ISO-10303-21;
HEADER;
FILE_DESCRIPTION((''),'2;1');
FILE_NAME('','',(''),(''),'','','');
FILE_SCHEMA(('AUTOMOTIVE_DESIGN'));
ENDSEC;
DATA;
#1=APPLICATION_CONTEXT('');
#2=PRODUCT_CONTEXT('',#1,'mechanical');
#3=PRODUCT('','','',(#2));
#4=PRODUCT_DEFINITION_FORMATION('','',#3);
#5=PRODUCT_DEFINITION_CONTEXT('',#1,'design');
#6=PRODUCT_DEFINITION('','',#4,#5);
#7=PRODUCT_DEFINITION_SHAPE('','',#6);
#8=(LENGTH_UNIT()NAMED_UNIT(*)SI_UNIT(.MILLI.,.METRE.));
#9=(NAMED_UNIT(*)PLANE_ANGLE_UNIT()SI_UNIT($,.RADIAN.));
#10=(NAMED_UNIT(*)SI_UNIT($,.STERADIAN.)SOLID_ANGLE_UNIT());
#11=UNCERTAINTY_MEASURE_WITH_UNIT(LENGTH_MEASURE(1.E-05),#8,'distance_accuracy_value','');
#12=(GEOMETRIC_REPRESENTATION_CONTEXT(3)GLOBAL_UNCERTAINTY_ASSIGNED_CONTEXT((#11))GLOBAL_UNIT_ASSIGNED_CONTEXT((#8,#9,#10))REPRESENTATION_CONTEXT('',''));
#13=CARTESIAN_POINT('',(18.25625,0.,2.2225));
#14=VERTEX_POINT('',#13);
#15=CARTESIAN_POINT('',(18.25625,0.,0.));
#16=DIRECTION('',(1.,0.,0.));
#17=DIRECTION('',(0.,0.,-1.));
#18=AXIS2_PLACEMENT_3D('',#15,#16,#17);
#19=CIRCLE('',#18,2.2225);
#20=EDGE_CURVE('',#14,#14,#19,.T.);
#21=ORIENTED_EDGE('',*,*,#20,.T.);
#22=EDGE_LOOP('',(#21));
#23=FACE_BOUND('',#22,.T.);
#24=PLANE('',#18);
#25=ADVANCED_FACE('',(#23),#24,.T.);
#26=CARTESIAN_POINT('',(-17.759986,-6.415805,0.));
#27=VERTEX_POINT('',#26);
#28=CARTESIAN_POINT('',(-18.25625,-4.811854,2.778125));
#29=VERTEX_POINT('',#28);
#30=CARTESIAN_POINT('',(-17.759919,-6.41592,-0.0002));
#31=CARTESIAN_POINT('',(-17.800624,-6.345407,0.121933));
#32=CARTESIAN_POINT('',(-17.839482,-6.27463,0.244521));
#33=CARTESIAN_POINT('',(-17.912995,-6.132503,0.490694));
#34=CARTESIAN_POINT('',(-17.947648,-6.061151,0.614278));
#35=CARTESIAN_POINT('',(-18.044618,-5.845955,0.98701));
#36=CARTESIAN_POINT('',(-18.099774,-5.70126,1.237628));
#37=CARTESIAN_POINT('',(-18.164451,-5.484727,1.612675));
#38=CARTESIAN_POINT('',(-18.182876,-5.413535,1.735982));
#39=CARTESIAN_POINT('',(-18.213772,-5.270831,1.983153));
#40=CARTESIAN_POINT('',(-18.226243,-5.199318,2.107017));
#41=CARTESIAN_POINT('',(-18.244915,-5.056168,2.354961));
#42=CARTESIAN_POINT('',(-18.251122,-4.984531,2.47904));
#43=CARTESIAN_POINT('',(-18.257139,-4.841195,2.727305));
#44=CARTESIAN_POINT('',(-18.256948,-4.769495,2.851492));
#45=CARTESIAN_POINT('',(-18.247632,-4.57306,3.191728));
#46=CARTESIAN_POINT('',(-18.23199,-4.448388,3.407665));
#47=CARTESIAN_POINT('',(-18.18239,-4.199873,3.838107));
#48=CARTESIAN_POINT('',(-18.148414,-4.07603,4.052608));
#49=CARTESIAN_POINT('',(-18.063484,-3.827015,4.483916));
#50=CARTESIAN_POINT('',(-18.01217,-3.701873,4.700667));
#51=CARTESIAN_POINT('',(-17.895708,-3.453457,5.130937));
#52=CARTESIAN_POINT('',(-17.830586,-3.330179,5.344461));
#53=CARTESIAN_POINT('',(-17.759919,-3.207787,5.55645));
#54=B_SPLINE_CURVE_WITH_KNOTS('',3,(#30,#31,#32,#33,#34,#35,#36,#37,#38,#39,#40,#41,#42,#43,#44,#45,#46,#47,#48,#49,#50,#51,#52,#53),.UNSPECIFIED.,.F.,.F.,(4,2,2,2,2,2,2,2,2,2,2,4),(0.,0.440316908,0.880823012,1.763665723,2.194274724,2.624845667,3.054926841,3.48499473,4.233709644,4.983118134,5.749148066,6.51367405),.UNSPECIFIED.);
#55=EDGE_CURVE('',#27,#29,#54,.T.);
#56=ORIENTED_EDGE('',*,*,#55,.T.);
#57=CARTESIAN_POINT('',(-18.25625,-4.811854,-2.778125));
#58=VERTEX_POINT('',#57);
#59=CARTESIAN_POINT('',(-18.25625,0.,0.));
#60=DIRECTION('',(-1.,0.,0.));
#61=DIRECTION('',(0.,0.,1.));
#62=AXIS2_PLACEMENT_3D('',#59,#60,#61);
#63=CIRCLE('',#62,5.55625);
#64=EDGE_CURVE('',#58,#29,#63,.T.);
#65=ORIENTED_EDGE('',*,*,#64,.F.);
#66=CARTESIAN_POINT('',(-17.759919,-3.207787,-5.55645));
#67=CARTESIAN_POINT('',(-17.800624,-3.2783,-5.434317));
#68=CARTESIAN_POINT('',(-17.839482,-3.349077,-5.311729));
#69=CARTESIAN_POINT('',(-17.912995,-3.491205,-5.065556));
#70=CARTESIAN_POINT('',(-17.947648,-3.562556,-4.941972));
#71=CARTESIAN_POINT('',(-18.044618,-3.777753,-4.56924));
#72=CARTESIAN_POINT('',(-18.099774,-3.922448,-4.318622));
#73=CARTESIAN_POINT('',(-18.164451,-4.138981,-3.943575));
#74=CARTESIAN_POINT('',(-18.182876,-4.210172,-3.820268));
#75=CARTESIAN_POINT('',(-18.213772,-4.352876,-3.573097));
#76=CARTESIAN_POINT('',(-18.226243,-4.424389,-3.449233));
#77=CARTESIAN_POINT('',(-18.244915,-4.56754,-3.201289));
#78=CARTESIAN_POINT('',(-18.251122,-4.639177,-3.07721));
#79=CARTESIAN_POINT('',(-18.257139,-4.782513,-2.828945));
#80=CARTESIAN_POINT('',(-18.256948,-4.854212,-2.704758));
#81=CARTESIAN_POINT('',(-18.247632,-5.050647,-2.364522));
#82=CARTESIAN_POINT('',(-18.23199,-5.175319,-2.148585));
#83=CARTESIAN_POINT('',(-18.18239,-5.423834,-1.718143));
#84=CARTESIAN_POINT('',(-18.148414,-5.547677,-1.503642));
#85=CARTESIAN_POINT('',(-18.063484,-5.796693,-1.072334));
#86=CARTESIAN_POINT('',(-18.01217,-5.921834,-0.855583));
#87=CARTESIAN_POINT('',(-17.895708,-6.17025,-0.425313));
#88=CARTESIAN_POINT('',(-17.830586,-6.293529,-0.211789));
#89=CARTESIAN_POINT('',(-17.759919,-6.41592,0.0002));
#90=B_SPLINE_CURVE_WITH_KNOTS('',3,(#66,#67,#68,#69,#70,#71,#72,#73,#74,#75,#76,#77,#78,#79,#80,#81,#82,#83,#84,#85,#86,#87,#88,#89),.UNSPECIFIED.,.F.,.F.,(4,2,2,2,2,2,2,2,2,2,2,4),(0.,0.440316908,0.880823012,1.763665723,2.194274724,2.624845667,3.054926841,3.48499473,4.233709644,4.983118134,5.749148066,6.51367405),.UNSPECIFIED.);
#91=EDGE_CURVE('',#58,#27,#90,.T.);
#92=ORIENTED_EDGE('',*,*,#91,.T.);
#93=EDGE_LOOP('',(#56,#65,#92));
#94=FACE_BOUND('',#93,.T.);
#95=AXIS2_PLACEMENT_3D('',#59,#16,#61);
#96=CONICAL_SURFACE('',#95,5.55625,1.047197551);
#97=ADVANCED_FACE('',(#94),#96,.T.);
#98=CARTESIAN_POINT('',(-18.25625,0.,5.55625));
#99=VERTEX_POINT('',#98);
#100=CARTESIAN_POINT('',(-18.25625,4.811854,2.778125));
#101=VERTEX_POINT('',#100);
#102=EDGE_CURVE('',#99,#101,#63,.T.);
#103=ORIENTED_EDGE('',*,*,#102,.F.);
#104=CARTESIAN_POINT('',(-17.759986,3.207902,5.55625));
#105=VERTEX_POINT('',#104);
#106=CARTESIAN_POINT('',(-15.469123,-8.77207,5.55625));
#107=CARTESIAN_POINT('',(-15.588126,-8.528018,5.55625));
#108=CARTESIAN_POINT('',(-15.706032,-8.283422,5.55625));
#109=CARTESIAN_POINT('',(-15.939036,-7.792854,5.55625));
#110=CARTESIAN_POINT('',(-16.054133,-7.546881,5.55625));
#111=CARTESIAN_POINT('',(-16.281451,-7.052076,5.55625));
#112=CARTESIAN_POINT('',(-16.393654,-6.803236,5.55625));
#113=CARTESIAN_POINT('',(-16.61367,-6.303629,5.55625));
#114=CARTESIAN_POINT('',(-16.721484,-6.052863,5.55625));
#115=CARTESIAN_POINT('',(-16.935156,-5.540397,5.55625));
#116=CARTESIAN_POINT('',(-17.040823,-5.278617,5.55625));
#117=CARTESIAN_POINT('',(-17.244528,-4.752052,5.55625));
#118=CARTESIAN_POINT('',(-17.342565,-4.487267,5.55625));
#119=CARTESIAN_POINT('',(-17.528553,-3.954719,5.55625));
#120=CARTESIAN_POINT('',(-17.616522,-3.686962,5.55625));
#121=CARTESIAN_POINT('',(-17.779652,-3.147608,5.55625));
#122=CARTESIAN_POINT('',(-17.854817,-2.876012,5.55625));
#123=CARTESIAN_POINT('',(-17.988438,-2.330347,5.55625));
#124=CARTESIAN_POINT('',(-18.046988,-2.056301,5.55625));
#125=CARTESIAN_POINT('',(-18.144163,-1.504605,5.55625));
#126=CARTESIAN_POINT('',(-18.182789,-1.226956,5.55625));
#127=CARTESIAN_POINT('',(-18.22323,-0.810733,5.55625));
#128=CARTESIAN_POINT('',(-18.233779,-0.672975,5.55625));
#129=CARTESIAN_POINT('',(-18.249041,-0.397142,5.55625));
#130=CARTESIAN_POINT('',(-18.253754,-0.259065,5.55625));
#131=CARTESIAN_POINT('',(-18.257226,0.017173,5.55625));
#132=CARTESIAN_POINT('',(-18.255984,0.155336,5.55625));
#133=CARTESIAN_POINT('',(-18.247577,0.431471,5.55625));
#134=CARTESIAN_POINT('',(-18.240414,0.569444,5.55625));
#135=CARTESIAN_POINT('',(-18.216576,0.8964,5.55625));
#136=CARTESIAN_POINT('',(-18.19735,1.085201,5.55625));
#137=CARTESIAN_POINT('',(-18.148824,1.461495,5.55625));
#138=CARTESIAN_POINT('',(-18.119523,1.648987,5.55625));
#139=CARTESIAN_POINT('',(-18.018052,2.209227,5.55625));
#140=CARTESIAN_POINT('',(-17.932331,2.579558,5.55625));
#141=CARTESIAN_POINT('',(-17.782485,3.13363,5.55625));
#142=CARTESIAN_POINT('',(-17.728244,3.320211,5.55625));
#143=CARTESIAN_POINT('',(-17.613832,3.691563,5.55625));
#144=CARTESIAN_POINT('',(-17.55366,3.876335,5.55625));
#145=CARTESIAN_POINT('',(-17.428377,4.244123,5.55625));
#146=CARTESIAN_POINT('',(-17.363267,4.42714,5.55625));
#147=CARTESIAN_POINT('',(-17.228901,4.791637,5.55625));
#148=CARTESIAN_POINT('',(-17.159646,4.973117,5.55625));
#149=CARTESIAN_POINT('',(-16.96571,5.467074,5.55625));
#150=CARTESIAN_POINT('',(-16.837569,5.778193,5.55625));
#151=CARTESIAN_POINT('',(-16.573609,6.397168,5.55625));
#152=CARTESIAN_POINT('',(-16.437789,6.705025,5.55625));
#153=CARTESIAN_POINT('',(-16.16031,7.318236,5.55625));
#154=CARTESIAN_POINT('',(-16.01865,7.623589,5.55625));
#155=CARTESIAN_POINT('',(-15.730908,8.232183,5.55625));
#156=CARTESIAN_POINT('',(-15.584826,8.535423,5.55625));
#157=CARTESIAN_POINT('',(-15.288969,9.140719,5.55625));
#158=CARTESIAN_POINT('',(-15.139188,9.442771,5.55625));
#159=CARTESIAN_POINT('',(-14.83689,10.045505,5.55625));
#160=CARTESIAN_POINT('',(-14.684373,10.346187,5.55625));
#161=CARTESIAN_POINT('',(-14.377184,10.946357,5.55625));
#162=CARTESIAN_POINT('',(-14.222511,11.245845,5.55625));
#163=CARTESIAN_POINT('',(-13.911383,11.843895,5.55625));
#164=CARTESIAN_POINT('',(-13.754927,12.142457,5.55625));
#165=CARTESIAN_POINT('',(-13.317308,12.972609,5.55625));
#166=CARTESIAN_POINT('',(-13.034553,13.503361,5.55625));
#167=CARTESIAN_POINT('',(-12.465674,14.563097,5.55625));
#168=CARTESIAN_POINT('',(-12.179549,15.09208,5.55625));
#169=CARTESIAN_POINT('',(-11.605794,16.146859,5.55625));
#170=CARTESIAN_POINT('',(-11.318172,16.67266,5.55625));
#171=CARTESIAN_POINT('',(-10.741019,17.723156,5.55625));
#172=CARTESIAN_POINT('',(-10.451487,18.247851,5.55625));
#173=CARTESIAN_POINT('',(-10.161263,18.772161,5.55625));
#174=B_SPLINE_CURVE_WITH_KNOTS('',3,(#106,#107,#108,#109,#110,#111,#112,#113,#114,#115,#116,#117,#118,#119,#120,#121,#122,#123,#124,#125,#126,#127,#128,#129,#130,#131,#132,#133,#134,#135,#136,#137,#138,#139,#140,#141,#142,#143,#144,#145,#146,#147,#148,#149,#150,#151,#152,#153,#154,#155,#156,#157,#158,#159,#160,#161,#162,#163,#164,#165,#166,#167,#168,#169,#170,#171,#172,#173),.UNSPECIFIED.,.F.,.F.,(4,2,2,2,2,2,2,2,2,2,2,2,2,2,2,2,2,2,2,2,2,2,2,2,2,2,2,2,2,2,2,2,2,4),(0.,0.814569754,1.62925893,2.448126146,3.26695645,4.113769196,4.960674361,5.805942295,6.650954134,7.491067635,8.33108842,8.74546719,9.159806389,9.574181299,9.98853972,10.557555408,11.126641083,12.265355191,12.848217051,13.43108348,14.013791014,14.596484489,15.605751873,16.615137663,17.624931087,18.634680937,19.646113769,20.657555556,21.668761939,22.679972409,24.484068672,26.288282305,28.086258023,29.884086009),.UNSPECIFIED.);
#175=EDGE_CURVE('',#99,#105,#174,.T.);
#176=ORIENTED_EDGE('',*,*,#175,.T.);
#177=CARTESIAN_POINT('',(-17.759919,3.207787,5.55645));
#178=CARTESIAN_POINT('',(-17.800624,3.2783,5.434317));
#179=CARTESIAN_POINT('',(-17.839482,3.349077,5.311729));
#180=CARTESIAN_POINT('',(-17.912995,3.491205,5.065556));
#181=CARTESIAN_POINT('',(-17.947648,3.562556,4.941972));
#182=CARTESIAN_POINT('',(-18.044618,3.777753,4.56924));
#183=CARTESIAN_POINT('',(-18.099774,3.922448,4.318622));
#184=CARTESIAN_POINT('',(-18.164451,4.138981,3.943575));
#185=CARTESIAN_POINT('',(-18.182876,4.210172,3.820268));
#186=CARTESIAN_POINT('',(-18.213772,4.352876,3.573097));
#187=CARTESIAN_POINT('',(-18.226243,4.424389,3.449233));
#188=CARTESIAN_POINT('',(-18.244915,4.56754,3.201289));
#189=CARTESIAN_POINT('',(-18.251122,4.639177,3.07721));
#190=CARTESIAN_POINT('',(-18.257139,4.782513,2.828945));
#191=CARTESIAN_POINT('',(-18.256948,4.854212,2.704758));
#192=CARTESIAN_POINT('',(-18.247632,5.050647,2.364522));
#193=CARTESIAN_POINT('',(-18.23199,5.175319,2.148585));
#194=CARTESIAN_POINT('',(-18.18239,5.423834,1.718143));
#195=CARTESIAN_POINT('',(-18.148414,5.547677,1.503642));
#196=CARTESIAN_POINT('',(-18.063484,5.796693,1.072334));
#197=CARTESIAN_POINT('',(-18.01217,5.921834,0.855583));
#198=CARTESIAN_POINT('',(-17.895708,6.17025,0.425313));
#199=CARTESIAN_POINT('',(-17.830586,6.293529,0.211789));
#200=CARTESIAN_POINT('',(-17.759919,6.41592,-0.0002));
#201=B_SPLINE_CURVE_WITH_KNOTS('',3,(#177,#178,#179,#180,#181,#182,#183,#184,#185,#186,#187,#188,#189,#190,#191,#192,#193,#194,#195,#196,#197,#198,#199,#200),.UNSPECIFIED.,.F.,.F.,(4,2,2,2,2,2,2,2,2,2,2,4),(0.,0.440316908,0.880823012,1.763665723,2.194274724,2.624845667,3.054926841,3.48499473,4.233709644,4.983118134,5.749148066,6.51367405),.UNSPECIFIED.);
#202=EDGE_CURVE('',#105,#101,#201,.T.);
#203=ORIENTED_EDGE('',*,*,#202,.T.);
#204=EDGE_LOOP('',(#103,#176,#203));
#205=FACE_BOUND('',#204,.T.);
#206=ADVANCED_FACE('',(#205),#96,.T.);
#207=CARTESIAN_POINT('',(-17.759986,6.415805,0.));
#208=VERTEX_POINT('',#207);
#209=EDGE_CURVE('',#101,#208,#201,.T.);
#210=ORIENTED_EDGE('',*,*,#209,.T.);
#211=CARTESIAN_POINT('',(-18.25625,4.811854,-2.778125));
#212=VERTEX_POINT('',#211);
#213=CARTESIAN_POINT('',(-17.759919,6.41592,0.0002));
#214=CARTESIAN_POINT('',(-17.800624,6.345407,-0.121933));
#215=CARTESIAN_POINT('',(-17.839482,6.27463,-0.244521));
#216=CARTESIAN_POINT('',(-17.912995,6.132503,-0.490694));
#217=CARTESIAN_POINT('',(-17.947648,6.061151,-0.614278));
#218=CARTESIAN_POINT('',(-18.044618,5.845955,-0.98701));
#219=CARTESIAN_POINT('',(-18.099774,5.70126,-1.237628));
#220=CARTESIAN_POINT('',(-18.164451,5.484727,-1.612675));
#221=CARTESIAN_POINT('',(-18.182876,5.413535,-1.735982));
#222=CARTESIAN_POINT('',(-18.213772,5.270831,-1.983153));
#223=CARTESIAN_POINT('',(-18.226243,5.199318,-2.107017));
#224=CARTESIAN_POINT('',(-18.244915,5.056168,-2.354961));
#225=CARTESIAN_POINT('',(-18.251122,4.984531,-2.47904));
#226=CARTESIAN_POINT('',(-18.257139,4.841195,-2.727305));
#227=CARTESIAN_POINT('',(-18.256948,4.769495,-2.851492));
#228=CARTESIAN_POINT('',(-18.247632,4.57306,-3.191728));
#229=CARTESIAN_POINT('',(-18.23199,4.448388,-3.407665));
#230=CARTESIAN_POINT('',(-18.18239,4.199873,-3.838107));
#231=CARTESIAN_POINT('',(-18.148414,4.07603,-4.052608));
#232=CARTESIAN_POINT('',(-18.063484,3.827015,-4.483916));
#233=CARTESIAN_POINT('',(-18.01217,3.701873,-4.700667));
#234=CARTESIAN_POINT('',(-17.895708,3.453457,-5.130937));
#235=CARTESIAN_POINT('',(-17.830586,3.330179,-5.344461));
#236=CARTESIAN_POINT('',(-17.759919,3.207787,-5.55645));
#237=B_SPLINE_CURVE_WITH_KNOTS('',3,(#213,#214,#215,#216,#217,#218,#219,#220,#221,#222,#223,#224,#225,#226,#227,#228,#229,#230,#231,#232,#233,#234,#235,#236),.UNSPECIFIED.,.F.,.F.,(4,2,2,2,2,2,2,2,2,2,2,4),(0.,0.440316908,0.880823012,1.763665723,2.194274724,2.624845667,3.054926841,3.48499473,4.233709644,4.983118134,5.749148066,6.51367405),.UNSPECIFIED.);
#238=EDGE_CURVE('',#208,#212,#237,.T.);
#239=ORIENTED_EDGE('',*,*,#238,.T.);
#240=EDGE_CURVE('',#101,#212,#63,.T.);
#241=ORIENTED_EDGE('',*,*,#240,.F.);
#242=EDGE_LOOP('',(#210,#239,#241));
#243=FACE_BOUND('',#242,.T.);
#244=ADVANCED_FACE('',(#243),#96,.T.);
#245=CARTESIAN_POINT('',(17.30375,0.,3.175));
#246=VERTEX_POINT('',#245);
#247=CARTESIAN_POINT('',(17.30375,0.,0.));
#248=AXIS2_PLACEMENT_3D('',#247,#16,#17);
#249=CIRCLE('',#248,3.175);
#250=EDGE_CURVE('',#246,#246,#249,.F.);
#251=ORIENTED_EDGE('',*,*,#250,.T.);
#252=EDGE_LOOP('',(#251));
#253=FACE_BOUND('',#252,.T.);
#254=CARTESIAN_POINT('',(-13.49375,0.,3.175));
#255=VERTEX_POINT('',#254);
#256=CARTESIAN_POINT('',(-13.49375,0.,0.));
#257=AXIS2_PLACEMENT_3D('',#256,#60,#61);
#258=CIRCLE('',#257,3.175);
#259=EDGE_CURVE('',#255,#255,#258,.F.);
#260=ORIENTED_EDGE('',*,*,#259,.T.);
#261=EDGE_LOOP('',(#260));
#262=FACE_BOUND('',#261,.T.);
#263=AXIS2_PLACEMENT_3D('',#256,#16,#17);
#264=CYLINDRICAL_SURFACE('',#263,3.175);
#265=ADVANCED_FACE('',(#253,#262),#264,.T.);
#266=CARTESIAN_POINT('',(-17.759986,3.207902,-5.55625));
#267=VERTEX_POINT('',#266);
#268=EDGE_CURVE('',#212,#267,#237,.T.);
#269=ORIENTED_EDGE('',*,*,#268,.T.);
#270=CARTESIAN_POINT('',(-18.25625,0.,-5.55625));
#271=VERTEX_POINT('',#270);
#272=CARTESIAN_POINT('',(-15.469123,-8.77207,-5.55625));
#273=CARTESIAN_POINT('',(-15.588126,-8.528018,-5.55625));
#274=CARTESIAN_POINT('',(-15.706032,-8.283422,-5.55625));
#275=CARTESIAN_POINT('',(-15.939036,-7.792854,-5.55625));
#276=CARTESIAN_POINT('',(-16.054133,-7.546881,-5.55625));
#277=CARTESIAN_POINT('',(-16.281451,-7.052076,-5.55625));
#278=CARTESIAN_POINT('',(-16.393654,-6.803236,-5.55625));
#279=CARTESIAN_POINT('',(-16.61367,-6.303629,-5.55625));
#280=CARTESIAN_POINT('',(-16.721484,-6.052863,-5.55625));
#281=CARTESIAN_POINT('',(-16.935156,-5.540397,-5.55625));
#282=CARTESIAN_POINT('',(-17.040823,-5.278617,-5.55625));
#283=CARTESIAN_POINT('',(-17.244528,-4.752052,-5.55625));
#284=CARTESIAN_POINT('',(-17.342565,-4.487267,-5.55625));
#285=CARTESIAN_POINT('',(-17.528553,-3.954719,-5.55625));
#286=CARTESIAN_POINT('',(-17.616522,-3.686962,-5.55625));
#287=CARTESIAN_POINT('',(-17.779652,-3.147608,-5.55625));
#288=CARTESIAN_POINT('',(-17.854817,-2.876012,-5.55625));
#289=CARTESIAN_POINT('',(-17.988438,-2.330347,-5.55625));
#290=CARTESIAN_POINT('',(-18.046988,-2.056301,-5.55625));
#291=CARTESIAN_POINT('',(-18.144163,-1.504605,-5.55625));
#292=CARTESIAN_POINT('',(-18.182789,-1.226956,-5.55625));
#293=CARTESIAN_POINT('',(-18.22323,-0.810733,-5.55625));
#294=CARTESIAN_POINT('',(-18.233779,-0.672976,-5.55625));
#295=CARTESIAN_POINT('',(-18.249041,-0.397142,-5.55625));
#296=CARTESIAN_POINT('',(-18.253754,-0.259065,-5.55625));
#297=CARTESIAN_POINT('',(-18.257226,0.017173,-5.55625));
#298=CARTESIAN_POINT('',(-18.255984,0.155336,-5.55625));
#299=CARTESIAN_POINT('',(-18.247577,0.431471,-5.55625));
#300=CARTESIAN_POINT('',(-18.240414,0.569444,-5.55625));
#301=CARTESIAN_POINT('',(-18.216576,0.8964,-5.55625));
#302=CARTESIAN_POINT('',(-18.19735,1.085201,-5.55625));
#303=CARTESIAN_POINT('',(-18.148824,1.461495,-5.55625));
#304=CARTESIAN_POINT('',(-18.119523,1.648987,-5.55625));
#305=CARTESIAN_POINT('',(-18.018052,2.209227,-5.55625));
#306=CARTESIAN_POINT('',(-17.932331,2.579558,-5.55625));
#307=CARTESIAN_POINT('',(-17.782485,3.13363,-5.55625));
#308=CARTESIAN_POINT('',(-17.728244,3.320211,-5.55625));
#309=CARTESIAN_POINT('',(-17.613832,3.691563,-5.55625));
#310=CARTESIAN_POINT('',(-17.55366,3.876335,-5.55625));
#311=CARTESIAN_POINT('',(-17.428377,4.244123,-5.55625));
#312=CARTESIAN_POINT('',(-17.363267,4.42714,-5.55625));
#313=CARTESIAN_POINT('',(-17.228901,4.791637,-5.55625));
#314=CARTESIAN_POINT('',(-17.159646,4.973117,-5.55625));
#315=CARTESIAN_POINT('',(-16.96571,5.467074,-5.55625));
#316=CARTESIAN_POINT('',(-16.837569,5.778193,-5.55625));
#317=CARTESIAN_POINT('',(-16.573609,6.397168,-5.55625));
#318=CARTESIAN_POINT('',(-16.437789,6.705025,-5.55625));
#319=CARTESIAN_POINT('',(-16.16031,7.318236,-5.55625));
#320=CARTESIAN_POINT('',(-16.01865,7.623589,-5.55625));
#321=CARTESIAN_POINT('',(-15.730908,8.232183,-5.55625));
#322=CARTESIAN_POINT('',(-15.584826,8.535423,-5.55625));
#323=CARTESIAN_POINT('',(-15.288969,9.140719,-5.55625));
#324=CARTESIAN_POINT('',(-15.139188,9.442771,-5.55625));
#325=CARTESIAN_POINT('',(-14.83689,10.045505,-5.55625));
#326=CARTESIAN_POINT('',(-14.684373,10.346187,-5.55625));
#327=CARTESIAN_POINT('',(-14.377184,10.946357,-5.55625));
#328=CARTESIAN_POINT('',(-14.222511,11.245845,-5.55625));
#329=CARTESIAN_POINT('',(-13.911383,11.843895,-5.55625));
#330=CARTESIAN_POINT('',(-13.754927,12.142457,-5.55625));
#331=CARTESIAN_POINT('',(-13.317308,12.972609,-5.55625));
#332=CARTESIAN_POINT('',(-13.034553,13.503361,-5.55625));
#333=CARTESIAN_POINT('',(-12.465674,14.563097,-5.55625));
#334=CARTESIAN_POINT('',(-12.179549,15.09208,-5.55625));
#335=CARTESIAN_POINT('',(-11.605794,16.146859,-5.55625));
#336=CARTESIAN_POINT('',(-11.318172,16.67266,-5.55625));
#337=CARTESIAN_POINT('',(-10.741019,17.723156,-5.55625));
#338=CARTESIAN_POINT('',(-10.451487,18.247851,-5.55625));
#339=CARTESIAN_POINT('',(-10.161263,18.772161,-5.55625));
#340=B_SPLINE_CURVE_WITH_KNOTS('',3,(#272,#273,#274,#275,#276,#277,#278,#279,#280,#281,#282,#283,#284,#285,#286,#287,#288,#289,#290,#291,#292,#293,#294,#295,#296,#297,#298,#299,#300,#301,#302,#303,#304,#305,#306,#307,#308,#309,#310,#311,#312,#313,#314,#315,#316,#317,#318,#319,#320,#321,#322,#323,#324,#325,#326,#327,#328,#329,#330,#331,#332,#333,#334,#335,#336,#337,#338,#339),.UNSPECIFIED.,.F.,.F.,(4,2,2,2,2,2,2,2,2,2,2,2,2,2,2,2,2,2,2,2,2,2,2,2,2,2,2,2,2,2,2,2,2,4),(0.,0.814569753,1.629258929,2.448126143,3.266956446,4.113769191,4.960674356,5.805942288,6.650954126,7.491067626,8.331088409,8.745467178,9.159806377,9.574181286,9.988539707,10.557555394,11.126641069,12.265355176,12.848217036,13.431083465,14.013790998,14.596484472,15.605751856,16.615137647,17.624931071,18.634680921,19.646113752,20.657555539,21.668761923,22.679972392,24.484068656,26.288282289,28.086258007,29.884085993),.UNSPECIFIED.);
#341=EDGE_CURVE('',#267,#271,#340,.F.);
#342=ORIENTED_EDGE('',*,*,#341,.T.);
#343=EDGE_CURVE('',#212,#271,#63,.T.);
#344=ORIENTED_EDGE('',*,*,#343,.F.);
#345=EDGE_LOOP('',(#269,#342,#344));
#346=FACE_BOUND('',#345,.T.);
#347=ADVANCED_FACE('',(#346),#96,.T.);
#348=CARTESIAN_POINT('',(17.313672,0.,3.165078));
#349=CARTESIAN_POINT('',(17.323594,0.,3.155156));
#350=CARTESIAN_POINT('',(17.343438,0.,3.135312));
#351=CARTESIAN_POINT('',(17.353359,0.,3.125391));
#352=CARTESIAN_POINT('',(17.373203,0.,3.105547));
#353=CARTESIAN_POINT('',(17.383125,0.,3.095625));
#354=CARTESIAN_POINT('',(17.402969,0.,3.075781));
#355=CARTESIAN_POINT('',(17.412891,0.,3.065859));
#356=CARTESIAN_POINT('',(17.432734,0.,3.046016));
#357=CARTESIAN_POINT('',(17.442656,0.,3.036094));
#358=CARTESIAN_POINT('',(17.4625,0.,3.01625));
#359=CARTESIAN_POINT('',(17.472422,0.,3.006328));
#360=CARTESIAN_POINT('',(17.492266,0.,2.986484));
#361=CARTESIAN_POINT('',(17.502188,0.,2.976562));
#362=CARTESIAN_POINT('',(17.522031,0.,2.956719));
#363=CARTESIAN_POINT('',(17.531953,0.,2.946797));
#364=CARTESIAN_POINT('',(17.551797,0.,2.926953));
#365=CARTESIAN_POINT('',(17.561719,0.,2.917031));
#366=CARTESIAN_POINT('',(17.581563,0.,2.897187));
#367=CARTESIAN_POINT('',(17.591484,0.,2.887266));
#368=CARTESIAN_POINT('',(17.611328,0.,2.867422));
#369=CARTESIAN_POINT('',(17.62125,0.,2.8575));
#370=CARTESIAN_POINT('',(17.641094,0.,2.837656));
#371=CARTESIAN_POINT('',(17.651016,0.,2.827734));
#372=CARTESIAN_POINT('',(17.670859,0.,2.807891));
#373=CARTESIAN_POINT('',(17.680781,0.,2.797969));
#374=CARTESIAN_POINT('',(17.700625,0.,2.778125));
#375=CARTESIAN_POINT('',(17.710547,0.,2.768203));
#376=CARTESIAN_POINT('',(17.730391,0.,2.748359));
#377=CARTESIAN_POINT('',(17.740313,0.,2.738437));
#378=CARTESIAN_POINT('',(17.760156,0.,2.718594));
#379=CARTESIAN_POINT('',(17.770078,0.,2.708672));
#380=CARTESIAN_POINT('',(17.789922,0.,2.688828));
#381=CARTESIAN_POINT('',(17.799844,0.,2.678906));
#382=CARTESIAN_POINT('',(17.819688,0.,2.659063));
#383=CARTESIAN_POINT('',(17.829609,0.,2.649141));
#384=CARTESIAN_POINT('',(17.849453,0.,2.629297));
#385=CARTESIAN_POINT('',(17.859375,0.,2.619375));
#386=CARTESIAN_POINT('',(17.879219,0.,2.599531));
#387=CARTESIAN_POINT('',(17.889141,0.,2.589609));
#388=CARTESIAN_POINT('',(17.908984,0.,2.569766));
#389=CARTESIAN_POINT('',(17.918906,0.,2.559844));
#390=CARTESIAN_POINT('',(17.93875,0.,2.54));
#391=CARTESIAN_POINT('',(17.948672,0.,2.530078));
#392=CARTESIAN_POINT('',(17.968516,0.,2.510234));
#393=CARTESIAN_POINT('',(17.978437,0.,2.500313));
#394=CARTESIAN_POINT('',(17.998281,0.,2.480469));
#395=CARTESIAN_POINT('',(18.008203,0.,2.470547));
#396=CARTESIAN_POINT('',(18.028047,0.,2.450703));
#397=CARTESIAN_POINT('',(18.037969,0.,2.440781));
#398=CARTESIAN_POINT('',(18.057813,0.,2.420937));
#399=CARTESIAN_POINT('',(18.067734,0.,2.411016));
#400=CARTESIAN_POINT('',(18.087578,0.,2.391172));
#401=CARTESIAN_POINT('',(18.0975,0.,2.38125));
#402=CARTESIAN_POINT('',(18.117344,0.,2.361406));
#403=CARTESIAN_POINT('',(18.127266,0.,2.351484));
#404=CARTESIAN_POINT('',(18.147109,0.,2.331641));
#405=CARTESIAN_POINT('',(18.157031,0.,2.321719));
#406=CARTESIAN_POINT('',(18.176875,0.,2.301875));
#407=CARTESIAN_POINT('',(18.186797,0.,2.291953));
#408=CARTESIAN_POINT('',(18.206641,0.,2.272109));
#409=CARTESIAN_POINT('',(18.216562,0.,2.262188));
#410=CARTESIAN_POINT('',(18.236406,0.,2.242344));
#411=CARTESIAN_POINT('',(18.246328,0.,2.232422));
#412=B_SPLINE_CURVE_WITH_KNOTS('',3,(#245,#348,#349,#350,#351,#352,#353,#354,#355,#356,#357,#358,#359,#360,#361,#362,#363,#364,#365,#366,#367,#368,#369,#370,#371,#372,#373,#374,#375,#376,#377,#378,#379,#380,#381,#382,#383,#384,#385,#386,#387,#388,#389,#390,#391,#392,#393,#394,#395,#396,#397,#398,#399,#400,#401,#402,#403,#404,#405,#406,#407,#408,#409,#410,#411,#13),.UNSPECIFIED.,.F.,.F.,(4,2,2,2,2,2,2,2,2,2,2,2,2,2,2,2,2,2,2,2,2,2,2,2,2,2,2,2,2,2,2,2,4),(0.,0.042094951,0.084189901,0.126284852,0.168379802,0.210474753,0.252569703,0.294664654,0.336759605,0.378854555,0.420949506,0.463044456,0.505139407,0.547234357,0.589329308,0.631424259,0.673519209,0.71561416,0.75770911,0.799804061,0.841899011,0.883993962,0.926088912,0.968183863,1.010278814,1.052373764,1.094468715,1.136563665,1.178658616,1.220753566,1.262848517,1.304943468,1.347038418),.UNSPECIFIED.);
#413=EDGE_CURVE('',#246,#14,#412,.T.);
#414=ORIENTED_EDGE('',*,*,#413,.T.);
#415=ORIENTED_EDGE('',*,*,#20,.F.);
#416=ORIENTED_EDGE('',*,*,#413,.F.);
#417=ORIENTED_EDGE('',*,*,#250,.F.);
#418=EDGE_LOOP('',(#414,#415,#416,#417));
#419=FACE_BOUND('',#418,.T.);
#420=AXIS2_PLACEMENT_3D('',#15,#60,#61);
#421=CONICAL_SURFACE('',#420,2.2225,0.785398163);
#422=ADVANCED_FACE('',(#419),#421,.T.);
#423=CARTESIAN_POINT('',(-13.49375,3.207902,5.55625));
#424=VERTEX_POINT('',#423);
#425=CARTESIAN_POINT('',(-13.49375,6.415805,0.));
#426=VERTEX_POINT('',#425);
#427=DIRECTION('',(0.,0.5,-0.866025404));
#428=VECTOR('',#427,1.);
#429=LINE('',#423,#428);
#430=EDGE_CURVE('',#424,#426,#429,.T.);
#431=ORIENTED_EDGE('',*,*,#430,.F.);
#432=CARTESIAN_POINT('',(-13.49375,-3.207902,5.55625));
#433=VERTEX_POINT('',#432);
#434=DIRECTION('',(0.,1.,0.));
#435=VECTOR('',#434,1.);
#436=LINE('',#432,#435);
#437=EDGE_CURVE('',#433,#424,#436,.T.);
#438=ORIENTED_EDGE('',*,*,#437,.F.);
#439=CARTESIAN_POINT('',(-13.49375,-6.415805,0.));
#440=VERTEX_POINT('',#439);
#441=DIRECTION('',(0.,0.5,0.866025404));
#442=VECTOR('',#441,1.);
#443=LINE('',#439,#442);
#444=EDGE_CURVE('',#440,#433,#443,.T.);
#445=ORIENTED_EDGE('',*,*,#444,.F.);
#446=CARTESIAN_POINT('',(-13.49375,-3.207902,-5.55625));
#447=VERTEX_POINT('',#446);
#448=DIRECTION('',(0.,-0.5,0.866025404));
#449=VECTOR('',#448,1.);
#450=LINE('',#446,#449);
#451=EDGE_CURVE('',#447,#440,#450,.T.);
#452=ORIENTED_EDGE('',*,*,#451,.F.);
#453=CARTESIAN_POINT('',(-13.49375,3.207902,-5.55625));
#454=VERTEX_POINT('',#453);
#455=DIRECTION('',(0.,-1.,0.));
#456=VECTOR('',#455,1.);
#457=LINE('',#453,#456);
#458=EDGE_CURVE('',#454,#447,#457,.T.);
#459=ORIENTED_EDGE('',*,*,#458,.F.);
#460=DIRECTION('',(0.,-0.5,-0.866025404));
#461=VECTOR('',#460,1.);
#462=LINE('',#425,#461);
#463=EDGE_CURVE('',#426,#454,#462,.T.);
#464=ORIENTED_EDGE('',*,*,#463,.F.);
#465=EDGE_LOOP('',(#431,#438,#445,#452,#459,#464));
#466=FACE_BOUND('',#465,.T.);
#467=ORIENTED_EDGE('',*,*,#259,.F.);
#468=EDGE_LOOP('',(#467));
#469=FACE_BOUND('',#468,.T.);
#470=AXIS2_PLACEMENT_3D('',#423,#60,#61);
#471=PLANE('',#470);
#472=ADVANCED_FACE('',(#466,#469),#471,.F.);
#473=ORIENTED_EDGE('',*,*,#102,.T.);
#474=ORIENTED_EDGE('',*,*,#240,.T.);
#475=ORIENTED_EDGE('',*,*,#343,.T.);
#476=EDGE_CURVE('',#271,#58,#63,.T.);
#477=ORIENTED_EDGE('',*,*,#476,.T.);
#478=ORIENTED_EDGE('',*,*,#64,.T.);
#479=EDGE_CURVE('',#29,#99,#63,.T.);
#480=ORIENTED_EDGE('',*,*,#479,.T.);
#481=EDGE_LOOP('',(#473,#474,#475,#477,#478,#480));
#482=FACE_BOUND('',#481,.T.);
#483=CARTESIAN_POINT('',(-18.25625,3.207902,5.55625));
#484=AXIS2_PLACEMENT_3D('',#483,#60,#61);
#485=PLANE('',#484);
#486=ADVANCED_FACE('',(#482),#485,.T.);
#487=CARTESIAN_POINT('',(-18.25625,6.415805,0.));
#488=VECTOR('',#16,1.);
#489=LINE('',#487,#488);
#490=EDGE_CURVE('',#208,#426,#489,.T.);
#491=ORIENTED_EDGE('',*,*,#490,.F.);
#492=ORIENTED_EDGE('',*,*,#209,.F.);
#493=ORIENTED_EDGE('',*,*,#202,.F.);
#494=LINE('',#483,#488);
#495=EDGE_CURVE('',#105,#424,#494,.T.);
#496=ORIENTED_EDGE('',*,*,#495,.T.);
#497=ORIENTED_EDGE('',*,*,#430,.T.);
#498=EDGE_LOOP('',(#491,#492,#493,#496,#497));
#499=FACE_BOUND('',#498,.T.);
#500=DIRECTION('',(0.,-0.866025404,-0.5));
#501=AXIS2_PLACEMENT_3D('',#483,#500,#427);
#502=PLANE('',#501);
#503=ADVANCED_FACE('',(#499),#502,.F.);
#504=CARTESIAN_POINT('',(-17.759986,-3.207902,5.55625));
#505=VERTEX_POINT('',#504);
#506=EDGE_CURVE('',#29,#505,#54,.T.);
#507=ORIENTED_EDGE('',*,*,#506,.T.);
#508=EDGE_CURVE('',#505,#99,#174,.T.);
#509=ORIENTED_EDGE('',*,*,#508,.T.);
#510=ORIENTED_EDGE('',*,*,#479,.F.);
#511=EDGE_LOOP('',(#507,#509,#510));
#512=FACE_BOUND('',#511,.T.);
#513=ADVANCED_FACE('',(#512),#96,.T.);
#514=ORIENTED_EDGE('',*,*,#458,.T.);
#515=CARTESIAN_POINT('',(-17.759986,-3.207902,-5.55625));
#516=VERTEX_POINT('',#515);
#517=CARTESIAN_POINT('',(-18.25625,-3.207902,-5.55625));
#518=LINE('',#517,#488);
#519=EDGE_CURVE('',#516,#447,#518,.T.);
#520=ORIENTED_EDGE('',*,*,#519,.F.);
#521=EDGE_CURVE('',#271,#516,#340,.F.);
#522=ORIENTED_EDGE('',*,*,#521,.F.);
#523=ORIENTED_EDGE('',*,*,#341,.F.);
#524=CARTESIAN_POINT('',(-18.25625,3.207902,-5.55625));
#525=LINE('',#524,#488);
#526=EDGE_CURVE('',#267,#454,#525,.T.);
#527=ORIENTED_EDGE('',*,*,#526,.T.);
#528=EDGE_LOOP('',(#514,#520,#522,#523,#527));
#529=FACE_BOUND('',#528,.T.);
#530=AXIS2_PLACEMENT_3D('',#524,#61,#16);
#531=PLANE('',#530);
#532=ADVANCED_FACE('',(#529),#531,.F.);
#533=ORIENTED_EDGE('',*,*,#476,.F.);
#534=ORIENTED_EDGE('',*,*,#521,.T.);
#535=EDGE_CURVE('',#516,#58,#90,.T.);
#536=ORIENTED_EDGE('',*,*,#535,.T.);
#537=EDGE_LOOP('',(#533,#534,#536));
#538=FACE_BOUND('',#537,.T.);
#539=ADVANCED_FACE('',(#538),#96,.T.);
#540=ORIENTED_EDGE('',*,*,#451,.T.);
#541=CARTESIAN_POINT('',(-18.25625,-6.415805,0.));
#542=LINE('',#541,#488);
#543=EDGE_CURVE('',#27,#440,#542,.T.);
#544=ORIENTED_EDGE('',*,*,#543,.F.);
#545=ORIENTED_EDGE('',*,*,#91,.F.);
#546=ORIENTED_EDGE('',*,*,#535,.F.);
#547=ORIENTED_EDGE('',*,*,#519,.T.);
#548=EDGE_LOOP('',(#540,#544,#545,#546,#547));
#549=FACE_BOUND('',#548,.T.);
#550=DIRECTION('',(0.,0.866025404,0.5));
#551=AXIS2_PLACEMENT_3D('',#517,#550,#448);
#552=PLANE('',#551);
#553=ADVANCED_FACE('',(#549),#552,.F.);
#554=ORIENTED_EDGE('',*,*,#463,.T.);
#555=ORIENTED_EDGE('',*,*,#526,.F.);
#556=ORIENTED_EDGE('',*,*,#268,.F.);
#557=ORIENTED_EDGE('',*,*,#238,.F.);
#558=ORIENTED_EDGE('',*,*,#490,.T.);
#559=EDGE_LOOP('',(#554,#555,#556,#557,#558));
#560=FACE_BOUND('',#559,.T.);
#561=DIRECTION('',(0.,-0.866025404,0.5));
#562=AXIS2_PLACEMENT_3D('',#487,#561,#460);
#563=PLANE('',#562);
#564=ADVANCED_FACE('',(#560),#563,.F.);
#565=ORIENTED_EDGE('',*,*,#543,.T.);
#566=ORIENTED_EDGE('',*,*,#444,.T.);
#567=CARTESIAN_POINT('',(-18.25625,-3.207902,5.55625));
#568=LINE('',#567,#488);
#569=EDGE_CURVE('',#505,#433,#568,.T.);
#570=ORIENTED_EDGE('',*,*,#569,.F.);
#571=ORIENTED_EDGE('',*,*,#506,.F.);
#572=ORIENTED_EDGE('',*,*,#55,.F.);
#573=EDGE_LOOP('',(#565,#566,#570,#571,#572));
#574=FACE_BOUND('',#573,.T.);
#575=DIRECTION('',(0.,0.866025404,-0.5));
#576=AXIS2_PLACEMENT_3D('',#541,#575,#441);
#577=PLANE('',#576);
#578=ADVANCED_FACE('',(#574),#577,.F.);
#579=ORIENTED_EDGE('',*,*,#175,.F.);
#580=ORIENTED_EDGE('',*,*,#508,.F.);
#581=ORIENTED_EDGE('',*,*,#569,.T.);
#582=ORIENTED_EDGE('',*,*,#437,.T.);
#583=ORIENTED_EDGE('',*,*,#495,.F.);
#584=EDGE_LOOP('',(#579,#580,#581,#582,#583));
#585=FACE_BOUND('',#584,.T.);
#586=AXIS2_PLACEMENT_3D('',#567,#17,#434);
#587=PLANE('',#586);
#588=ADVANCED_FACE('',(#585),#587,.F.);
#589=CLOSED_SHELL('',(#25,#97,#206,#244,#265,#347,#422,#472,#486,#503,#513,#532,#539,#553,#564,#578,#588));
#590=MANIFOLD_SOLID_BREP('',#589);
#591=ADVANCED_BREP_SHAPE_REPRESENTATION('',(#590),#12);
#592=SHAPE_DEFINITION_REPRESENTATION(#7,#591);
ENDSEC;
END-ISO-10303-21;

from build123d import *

# Parameters (mm, degrees)
SKETCH5_R           = 3.175
BOSS_EXTRUDE3_DEPTH = 31.75
CHAMFER1_SIZE       = 0.9525
BOSS_EXTRUDE4_DEPTH = 4.7625
SKETCH8_OUTSIDE_W   = 154.484
SKETCH8_OUTSIDE_H   = 156.204
SKETCH8_OUTSIDE_R   = 5.55625
CUT_EXTRUDE3_DEPTH  = 38.485959003
CUT_EXTRUDE3_DRAFT  = -60


with BuildPart() as part:
    # Sketch5 → Boss-Extrude3 (new body)
    with BuildSketch(Plane(origin=(18.25625, 0, 0), x_dir=(0, 0, -1), z_dir=(1, 0, 0))):
        Circle(SKETCH5_R)
    extrude(amount=-BOSS_EXTRUDE3_DEPTH)

    # Chamfer1
    chamfer1_edges = [part.edges().sort_by_distance(p)[0] for p in [
        (18.25625, 0, 3.175),
    ]]
    chamfer(chamfer1_edges, length=CHAMFER1_SIZE)

    # Sketch6 → Boss-Extrude4 (add)
    with BuildSketch(Plane.ZY.offset(13.49375)):
        Polygon((5.55625, 3.207902433), (0, 6.415804866), (-5.55625, 3.207902433), (-5.55625, -3.207902433), (0, -6.415804866), (5.55625, -3.207902433), align=None)
    extrude(amount=BOSS_EXTRUDE4_DEPTH)


with BuildPart() as cut_extrude3_tool:
    # Sketch8 outside → Cut-Extrude3 (with draft: the straight prism first)
    with BuildSketch(Plane.ZY.offset(18.25625)):
        Rectangle(SKETCH8_OUTSIDE_W, SKETCH8_OUTSIDE_H)
        Circle(SKETCH8_OUTSIDE_R, mode=Mode.SUBTRACT)
    extrude(amount=-CUT_EXTRUDE3_DEPTH)
    # Cut-Extrude3: the draft: its side faces are tilted about the plane it starts from
    cut_extrude3_sides = [cut_extrude3_tool.faces().sort_by_distance(p)[0] for p in [
        (0.986729502, -78.102, 0),
        (0.986729502, 0, 77.242),
        (0.986729502, 78.102, 0),
        (0.986729502, 0, -77.242),
        (0.986729502, 0, -5.55625),
    ]]
    draft(cut_extrude3_sides, Plane.ZY.offset(18.25625), CUT_EXTRUDE3_DRAFT)


with BuildPart() as part_1:
    add(part.part)

    # Cut-Extrude3: cut by cut_extrude3_tool
    add(cut_extrude3_tool.part, mode=Mode.SUBTRACT)


solid = part_1.part
